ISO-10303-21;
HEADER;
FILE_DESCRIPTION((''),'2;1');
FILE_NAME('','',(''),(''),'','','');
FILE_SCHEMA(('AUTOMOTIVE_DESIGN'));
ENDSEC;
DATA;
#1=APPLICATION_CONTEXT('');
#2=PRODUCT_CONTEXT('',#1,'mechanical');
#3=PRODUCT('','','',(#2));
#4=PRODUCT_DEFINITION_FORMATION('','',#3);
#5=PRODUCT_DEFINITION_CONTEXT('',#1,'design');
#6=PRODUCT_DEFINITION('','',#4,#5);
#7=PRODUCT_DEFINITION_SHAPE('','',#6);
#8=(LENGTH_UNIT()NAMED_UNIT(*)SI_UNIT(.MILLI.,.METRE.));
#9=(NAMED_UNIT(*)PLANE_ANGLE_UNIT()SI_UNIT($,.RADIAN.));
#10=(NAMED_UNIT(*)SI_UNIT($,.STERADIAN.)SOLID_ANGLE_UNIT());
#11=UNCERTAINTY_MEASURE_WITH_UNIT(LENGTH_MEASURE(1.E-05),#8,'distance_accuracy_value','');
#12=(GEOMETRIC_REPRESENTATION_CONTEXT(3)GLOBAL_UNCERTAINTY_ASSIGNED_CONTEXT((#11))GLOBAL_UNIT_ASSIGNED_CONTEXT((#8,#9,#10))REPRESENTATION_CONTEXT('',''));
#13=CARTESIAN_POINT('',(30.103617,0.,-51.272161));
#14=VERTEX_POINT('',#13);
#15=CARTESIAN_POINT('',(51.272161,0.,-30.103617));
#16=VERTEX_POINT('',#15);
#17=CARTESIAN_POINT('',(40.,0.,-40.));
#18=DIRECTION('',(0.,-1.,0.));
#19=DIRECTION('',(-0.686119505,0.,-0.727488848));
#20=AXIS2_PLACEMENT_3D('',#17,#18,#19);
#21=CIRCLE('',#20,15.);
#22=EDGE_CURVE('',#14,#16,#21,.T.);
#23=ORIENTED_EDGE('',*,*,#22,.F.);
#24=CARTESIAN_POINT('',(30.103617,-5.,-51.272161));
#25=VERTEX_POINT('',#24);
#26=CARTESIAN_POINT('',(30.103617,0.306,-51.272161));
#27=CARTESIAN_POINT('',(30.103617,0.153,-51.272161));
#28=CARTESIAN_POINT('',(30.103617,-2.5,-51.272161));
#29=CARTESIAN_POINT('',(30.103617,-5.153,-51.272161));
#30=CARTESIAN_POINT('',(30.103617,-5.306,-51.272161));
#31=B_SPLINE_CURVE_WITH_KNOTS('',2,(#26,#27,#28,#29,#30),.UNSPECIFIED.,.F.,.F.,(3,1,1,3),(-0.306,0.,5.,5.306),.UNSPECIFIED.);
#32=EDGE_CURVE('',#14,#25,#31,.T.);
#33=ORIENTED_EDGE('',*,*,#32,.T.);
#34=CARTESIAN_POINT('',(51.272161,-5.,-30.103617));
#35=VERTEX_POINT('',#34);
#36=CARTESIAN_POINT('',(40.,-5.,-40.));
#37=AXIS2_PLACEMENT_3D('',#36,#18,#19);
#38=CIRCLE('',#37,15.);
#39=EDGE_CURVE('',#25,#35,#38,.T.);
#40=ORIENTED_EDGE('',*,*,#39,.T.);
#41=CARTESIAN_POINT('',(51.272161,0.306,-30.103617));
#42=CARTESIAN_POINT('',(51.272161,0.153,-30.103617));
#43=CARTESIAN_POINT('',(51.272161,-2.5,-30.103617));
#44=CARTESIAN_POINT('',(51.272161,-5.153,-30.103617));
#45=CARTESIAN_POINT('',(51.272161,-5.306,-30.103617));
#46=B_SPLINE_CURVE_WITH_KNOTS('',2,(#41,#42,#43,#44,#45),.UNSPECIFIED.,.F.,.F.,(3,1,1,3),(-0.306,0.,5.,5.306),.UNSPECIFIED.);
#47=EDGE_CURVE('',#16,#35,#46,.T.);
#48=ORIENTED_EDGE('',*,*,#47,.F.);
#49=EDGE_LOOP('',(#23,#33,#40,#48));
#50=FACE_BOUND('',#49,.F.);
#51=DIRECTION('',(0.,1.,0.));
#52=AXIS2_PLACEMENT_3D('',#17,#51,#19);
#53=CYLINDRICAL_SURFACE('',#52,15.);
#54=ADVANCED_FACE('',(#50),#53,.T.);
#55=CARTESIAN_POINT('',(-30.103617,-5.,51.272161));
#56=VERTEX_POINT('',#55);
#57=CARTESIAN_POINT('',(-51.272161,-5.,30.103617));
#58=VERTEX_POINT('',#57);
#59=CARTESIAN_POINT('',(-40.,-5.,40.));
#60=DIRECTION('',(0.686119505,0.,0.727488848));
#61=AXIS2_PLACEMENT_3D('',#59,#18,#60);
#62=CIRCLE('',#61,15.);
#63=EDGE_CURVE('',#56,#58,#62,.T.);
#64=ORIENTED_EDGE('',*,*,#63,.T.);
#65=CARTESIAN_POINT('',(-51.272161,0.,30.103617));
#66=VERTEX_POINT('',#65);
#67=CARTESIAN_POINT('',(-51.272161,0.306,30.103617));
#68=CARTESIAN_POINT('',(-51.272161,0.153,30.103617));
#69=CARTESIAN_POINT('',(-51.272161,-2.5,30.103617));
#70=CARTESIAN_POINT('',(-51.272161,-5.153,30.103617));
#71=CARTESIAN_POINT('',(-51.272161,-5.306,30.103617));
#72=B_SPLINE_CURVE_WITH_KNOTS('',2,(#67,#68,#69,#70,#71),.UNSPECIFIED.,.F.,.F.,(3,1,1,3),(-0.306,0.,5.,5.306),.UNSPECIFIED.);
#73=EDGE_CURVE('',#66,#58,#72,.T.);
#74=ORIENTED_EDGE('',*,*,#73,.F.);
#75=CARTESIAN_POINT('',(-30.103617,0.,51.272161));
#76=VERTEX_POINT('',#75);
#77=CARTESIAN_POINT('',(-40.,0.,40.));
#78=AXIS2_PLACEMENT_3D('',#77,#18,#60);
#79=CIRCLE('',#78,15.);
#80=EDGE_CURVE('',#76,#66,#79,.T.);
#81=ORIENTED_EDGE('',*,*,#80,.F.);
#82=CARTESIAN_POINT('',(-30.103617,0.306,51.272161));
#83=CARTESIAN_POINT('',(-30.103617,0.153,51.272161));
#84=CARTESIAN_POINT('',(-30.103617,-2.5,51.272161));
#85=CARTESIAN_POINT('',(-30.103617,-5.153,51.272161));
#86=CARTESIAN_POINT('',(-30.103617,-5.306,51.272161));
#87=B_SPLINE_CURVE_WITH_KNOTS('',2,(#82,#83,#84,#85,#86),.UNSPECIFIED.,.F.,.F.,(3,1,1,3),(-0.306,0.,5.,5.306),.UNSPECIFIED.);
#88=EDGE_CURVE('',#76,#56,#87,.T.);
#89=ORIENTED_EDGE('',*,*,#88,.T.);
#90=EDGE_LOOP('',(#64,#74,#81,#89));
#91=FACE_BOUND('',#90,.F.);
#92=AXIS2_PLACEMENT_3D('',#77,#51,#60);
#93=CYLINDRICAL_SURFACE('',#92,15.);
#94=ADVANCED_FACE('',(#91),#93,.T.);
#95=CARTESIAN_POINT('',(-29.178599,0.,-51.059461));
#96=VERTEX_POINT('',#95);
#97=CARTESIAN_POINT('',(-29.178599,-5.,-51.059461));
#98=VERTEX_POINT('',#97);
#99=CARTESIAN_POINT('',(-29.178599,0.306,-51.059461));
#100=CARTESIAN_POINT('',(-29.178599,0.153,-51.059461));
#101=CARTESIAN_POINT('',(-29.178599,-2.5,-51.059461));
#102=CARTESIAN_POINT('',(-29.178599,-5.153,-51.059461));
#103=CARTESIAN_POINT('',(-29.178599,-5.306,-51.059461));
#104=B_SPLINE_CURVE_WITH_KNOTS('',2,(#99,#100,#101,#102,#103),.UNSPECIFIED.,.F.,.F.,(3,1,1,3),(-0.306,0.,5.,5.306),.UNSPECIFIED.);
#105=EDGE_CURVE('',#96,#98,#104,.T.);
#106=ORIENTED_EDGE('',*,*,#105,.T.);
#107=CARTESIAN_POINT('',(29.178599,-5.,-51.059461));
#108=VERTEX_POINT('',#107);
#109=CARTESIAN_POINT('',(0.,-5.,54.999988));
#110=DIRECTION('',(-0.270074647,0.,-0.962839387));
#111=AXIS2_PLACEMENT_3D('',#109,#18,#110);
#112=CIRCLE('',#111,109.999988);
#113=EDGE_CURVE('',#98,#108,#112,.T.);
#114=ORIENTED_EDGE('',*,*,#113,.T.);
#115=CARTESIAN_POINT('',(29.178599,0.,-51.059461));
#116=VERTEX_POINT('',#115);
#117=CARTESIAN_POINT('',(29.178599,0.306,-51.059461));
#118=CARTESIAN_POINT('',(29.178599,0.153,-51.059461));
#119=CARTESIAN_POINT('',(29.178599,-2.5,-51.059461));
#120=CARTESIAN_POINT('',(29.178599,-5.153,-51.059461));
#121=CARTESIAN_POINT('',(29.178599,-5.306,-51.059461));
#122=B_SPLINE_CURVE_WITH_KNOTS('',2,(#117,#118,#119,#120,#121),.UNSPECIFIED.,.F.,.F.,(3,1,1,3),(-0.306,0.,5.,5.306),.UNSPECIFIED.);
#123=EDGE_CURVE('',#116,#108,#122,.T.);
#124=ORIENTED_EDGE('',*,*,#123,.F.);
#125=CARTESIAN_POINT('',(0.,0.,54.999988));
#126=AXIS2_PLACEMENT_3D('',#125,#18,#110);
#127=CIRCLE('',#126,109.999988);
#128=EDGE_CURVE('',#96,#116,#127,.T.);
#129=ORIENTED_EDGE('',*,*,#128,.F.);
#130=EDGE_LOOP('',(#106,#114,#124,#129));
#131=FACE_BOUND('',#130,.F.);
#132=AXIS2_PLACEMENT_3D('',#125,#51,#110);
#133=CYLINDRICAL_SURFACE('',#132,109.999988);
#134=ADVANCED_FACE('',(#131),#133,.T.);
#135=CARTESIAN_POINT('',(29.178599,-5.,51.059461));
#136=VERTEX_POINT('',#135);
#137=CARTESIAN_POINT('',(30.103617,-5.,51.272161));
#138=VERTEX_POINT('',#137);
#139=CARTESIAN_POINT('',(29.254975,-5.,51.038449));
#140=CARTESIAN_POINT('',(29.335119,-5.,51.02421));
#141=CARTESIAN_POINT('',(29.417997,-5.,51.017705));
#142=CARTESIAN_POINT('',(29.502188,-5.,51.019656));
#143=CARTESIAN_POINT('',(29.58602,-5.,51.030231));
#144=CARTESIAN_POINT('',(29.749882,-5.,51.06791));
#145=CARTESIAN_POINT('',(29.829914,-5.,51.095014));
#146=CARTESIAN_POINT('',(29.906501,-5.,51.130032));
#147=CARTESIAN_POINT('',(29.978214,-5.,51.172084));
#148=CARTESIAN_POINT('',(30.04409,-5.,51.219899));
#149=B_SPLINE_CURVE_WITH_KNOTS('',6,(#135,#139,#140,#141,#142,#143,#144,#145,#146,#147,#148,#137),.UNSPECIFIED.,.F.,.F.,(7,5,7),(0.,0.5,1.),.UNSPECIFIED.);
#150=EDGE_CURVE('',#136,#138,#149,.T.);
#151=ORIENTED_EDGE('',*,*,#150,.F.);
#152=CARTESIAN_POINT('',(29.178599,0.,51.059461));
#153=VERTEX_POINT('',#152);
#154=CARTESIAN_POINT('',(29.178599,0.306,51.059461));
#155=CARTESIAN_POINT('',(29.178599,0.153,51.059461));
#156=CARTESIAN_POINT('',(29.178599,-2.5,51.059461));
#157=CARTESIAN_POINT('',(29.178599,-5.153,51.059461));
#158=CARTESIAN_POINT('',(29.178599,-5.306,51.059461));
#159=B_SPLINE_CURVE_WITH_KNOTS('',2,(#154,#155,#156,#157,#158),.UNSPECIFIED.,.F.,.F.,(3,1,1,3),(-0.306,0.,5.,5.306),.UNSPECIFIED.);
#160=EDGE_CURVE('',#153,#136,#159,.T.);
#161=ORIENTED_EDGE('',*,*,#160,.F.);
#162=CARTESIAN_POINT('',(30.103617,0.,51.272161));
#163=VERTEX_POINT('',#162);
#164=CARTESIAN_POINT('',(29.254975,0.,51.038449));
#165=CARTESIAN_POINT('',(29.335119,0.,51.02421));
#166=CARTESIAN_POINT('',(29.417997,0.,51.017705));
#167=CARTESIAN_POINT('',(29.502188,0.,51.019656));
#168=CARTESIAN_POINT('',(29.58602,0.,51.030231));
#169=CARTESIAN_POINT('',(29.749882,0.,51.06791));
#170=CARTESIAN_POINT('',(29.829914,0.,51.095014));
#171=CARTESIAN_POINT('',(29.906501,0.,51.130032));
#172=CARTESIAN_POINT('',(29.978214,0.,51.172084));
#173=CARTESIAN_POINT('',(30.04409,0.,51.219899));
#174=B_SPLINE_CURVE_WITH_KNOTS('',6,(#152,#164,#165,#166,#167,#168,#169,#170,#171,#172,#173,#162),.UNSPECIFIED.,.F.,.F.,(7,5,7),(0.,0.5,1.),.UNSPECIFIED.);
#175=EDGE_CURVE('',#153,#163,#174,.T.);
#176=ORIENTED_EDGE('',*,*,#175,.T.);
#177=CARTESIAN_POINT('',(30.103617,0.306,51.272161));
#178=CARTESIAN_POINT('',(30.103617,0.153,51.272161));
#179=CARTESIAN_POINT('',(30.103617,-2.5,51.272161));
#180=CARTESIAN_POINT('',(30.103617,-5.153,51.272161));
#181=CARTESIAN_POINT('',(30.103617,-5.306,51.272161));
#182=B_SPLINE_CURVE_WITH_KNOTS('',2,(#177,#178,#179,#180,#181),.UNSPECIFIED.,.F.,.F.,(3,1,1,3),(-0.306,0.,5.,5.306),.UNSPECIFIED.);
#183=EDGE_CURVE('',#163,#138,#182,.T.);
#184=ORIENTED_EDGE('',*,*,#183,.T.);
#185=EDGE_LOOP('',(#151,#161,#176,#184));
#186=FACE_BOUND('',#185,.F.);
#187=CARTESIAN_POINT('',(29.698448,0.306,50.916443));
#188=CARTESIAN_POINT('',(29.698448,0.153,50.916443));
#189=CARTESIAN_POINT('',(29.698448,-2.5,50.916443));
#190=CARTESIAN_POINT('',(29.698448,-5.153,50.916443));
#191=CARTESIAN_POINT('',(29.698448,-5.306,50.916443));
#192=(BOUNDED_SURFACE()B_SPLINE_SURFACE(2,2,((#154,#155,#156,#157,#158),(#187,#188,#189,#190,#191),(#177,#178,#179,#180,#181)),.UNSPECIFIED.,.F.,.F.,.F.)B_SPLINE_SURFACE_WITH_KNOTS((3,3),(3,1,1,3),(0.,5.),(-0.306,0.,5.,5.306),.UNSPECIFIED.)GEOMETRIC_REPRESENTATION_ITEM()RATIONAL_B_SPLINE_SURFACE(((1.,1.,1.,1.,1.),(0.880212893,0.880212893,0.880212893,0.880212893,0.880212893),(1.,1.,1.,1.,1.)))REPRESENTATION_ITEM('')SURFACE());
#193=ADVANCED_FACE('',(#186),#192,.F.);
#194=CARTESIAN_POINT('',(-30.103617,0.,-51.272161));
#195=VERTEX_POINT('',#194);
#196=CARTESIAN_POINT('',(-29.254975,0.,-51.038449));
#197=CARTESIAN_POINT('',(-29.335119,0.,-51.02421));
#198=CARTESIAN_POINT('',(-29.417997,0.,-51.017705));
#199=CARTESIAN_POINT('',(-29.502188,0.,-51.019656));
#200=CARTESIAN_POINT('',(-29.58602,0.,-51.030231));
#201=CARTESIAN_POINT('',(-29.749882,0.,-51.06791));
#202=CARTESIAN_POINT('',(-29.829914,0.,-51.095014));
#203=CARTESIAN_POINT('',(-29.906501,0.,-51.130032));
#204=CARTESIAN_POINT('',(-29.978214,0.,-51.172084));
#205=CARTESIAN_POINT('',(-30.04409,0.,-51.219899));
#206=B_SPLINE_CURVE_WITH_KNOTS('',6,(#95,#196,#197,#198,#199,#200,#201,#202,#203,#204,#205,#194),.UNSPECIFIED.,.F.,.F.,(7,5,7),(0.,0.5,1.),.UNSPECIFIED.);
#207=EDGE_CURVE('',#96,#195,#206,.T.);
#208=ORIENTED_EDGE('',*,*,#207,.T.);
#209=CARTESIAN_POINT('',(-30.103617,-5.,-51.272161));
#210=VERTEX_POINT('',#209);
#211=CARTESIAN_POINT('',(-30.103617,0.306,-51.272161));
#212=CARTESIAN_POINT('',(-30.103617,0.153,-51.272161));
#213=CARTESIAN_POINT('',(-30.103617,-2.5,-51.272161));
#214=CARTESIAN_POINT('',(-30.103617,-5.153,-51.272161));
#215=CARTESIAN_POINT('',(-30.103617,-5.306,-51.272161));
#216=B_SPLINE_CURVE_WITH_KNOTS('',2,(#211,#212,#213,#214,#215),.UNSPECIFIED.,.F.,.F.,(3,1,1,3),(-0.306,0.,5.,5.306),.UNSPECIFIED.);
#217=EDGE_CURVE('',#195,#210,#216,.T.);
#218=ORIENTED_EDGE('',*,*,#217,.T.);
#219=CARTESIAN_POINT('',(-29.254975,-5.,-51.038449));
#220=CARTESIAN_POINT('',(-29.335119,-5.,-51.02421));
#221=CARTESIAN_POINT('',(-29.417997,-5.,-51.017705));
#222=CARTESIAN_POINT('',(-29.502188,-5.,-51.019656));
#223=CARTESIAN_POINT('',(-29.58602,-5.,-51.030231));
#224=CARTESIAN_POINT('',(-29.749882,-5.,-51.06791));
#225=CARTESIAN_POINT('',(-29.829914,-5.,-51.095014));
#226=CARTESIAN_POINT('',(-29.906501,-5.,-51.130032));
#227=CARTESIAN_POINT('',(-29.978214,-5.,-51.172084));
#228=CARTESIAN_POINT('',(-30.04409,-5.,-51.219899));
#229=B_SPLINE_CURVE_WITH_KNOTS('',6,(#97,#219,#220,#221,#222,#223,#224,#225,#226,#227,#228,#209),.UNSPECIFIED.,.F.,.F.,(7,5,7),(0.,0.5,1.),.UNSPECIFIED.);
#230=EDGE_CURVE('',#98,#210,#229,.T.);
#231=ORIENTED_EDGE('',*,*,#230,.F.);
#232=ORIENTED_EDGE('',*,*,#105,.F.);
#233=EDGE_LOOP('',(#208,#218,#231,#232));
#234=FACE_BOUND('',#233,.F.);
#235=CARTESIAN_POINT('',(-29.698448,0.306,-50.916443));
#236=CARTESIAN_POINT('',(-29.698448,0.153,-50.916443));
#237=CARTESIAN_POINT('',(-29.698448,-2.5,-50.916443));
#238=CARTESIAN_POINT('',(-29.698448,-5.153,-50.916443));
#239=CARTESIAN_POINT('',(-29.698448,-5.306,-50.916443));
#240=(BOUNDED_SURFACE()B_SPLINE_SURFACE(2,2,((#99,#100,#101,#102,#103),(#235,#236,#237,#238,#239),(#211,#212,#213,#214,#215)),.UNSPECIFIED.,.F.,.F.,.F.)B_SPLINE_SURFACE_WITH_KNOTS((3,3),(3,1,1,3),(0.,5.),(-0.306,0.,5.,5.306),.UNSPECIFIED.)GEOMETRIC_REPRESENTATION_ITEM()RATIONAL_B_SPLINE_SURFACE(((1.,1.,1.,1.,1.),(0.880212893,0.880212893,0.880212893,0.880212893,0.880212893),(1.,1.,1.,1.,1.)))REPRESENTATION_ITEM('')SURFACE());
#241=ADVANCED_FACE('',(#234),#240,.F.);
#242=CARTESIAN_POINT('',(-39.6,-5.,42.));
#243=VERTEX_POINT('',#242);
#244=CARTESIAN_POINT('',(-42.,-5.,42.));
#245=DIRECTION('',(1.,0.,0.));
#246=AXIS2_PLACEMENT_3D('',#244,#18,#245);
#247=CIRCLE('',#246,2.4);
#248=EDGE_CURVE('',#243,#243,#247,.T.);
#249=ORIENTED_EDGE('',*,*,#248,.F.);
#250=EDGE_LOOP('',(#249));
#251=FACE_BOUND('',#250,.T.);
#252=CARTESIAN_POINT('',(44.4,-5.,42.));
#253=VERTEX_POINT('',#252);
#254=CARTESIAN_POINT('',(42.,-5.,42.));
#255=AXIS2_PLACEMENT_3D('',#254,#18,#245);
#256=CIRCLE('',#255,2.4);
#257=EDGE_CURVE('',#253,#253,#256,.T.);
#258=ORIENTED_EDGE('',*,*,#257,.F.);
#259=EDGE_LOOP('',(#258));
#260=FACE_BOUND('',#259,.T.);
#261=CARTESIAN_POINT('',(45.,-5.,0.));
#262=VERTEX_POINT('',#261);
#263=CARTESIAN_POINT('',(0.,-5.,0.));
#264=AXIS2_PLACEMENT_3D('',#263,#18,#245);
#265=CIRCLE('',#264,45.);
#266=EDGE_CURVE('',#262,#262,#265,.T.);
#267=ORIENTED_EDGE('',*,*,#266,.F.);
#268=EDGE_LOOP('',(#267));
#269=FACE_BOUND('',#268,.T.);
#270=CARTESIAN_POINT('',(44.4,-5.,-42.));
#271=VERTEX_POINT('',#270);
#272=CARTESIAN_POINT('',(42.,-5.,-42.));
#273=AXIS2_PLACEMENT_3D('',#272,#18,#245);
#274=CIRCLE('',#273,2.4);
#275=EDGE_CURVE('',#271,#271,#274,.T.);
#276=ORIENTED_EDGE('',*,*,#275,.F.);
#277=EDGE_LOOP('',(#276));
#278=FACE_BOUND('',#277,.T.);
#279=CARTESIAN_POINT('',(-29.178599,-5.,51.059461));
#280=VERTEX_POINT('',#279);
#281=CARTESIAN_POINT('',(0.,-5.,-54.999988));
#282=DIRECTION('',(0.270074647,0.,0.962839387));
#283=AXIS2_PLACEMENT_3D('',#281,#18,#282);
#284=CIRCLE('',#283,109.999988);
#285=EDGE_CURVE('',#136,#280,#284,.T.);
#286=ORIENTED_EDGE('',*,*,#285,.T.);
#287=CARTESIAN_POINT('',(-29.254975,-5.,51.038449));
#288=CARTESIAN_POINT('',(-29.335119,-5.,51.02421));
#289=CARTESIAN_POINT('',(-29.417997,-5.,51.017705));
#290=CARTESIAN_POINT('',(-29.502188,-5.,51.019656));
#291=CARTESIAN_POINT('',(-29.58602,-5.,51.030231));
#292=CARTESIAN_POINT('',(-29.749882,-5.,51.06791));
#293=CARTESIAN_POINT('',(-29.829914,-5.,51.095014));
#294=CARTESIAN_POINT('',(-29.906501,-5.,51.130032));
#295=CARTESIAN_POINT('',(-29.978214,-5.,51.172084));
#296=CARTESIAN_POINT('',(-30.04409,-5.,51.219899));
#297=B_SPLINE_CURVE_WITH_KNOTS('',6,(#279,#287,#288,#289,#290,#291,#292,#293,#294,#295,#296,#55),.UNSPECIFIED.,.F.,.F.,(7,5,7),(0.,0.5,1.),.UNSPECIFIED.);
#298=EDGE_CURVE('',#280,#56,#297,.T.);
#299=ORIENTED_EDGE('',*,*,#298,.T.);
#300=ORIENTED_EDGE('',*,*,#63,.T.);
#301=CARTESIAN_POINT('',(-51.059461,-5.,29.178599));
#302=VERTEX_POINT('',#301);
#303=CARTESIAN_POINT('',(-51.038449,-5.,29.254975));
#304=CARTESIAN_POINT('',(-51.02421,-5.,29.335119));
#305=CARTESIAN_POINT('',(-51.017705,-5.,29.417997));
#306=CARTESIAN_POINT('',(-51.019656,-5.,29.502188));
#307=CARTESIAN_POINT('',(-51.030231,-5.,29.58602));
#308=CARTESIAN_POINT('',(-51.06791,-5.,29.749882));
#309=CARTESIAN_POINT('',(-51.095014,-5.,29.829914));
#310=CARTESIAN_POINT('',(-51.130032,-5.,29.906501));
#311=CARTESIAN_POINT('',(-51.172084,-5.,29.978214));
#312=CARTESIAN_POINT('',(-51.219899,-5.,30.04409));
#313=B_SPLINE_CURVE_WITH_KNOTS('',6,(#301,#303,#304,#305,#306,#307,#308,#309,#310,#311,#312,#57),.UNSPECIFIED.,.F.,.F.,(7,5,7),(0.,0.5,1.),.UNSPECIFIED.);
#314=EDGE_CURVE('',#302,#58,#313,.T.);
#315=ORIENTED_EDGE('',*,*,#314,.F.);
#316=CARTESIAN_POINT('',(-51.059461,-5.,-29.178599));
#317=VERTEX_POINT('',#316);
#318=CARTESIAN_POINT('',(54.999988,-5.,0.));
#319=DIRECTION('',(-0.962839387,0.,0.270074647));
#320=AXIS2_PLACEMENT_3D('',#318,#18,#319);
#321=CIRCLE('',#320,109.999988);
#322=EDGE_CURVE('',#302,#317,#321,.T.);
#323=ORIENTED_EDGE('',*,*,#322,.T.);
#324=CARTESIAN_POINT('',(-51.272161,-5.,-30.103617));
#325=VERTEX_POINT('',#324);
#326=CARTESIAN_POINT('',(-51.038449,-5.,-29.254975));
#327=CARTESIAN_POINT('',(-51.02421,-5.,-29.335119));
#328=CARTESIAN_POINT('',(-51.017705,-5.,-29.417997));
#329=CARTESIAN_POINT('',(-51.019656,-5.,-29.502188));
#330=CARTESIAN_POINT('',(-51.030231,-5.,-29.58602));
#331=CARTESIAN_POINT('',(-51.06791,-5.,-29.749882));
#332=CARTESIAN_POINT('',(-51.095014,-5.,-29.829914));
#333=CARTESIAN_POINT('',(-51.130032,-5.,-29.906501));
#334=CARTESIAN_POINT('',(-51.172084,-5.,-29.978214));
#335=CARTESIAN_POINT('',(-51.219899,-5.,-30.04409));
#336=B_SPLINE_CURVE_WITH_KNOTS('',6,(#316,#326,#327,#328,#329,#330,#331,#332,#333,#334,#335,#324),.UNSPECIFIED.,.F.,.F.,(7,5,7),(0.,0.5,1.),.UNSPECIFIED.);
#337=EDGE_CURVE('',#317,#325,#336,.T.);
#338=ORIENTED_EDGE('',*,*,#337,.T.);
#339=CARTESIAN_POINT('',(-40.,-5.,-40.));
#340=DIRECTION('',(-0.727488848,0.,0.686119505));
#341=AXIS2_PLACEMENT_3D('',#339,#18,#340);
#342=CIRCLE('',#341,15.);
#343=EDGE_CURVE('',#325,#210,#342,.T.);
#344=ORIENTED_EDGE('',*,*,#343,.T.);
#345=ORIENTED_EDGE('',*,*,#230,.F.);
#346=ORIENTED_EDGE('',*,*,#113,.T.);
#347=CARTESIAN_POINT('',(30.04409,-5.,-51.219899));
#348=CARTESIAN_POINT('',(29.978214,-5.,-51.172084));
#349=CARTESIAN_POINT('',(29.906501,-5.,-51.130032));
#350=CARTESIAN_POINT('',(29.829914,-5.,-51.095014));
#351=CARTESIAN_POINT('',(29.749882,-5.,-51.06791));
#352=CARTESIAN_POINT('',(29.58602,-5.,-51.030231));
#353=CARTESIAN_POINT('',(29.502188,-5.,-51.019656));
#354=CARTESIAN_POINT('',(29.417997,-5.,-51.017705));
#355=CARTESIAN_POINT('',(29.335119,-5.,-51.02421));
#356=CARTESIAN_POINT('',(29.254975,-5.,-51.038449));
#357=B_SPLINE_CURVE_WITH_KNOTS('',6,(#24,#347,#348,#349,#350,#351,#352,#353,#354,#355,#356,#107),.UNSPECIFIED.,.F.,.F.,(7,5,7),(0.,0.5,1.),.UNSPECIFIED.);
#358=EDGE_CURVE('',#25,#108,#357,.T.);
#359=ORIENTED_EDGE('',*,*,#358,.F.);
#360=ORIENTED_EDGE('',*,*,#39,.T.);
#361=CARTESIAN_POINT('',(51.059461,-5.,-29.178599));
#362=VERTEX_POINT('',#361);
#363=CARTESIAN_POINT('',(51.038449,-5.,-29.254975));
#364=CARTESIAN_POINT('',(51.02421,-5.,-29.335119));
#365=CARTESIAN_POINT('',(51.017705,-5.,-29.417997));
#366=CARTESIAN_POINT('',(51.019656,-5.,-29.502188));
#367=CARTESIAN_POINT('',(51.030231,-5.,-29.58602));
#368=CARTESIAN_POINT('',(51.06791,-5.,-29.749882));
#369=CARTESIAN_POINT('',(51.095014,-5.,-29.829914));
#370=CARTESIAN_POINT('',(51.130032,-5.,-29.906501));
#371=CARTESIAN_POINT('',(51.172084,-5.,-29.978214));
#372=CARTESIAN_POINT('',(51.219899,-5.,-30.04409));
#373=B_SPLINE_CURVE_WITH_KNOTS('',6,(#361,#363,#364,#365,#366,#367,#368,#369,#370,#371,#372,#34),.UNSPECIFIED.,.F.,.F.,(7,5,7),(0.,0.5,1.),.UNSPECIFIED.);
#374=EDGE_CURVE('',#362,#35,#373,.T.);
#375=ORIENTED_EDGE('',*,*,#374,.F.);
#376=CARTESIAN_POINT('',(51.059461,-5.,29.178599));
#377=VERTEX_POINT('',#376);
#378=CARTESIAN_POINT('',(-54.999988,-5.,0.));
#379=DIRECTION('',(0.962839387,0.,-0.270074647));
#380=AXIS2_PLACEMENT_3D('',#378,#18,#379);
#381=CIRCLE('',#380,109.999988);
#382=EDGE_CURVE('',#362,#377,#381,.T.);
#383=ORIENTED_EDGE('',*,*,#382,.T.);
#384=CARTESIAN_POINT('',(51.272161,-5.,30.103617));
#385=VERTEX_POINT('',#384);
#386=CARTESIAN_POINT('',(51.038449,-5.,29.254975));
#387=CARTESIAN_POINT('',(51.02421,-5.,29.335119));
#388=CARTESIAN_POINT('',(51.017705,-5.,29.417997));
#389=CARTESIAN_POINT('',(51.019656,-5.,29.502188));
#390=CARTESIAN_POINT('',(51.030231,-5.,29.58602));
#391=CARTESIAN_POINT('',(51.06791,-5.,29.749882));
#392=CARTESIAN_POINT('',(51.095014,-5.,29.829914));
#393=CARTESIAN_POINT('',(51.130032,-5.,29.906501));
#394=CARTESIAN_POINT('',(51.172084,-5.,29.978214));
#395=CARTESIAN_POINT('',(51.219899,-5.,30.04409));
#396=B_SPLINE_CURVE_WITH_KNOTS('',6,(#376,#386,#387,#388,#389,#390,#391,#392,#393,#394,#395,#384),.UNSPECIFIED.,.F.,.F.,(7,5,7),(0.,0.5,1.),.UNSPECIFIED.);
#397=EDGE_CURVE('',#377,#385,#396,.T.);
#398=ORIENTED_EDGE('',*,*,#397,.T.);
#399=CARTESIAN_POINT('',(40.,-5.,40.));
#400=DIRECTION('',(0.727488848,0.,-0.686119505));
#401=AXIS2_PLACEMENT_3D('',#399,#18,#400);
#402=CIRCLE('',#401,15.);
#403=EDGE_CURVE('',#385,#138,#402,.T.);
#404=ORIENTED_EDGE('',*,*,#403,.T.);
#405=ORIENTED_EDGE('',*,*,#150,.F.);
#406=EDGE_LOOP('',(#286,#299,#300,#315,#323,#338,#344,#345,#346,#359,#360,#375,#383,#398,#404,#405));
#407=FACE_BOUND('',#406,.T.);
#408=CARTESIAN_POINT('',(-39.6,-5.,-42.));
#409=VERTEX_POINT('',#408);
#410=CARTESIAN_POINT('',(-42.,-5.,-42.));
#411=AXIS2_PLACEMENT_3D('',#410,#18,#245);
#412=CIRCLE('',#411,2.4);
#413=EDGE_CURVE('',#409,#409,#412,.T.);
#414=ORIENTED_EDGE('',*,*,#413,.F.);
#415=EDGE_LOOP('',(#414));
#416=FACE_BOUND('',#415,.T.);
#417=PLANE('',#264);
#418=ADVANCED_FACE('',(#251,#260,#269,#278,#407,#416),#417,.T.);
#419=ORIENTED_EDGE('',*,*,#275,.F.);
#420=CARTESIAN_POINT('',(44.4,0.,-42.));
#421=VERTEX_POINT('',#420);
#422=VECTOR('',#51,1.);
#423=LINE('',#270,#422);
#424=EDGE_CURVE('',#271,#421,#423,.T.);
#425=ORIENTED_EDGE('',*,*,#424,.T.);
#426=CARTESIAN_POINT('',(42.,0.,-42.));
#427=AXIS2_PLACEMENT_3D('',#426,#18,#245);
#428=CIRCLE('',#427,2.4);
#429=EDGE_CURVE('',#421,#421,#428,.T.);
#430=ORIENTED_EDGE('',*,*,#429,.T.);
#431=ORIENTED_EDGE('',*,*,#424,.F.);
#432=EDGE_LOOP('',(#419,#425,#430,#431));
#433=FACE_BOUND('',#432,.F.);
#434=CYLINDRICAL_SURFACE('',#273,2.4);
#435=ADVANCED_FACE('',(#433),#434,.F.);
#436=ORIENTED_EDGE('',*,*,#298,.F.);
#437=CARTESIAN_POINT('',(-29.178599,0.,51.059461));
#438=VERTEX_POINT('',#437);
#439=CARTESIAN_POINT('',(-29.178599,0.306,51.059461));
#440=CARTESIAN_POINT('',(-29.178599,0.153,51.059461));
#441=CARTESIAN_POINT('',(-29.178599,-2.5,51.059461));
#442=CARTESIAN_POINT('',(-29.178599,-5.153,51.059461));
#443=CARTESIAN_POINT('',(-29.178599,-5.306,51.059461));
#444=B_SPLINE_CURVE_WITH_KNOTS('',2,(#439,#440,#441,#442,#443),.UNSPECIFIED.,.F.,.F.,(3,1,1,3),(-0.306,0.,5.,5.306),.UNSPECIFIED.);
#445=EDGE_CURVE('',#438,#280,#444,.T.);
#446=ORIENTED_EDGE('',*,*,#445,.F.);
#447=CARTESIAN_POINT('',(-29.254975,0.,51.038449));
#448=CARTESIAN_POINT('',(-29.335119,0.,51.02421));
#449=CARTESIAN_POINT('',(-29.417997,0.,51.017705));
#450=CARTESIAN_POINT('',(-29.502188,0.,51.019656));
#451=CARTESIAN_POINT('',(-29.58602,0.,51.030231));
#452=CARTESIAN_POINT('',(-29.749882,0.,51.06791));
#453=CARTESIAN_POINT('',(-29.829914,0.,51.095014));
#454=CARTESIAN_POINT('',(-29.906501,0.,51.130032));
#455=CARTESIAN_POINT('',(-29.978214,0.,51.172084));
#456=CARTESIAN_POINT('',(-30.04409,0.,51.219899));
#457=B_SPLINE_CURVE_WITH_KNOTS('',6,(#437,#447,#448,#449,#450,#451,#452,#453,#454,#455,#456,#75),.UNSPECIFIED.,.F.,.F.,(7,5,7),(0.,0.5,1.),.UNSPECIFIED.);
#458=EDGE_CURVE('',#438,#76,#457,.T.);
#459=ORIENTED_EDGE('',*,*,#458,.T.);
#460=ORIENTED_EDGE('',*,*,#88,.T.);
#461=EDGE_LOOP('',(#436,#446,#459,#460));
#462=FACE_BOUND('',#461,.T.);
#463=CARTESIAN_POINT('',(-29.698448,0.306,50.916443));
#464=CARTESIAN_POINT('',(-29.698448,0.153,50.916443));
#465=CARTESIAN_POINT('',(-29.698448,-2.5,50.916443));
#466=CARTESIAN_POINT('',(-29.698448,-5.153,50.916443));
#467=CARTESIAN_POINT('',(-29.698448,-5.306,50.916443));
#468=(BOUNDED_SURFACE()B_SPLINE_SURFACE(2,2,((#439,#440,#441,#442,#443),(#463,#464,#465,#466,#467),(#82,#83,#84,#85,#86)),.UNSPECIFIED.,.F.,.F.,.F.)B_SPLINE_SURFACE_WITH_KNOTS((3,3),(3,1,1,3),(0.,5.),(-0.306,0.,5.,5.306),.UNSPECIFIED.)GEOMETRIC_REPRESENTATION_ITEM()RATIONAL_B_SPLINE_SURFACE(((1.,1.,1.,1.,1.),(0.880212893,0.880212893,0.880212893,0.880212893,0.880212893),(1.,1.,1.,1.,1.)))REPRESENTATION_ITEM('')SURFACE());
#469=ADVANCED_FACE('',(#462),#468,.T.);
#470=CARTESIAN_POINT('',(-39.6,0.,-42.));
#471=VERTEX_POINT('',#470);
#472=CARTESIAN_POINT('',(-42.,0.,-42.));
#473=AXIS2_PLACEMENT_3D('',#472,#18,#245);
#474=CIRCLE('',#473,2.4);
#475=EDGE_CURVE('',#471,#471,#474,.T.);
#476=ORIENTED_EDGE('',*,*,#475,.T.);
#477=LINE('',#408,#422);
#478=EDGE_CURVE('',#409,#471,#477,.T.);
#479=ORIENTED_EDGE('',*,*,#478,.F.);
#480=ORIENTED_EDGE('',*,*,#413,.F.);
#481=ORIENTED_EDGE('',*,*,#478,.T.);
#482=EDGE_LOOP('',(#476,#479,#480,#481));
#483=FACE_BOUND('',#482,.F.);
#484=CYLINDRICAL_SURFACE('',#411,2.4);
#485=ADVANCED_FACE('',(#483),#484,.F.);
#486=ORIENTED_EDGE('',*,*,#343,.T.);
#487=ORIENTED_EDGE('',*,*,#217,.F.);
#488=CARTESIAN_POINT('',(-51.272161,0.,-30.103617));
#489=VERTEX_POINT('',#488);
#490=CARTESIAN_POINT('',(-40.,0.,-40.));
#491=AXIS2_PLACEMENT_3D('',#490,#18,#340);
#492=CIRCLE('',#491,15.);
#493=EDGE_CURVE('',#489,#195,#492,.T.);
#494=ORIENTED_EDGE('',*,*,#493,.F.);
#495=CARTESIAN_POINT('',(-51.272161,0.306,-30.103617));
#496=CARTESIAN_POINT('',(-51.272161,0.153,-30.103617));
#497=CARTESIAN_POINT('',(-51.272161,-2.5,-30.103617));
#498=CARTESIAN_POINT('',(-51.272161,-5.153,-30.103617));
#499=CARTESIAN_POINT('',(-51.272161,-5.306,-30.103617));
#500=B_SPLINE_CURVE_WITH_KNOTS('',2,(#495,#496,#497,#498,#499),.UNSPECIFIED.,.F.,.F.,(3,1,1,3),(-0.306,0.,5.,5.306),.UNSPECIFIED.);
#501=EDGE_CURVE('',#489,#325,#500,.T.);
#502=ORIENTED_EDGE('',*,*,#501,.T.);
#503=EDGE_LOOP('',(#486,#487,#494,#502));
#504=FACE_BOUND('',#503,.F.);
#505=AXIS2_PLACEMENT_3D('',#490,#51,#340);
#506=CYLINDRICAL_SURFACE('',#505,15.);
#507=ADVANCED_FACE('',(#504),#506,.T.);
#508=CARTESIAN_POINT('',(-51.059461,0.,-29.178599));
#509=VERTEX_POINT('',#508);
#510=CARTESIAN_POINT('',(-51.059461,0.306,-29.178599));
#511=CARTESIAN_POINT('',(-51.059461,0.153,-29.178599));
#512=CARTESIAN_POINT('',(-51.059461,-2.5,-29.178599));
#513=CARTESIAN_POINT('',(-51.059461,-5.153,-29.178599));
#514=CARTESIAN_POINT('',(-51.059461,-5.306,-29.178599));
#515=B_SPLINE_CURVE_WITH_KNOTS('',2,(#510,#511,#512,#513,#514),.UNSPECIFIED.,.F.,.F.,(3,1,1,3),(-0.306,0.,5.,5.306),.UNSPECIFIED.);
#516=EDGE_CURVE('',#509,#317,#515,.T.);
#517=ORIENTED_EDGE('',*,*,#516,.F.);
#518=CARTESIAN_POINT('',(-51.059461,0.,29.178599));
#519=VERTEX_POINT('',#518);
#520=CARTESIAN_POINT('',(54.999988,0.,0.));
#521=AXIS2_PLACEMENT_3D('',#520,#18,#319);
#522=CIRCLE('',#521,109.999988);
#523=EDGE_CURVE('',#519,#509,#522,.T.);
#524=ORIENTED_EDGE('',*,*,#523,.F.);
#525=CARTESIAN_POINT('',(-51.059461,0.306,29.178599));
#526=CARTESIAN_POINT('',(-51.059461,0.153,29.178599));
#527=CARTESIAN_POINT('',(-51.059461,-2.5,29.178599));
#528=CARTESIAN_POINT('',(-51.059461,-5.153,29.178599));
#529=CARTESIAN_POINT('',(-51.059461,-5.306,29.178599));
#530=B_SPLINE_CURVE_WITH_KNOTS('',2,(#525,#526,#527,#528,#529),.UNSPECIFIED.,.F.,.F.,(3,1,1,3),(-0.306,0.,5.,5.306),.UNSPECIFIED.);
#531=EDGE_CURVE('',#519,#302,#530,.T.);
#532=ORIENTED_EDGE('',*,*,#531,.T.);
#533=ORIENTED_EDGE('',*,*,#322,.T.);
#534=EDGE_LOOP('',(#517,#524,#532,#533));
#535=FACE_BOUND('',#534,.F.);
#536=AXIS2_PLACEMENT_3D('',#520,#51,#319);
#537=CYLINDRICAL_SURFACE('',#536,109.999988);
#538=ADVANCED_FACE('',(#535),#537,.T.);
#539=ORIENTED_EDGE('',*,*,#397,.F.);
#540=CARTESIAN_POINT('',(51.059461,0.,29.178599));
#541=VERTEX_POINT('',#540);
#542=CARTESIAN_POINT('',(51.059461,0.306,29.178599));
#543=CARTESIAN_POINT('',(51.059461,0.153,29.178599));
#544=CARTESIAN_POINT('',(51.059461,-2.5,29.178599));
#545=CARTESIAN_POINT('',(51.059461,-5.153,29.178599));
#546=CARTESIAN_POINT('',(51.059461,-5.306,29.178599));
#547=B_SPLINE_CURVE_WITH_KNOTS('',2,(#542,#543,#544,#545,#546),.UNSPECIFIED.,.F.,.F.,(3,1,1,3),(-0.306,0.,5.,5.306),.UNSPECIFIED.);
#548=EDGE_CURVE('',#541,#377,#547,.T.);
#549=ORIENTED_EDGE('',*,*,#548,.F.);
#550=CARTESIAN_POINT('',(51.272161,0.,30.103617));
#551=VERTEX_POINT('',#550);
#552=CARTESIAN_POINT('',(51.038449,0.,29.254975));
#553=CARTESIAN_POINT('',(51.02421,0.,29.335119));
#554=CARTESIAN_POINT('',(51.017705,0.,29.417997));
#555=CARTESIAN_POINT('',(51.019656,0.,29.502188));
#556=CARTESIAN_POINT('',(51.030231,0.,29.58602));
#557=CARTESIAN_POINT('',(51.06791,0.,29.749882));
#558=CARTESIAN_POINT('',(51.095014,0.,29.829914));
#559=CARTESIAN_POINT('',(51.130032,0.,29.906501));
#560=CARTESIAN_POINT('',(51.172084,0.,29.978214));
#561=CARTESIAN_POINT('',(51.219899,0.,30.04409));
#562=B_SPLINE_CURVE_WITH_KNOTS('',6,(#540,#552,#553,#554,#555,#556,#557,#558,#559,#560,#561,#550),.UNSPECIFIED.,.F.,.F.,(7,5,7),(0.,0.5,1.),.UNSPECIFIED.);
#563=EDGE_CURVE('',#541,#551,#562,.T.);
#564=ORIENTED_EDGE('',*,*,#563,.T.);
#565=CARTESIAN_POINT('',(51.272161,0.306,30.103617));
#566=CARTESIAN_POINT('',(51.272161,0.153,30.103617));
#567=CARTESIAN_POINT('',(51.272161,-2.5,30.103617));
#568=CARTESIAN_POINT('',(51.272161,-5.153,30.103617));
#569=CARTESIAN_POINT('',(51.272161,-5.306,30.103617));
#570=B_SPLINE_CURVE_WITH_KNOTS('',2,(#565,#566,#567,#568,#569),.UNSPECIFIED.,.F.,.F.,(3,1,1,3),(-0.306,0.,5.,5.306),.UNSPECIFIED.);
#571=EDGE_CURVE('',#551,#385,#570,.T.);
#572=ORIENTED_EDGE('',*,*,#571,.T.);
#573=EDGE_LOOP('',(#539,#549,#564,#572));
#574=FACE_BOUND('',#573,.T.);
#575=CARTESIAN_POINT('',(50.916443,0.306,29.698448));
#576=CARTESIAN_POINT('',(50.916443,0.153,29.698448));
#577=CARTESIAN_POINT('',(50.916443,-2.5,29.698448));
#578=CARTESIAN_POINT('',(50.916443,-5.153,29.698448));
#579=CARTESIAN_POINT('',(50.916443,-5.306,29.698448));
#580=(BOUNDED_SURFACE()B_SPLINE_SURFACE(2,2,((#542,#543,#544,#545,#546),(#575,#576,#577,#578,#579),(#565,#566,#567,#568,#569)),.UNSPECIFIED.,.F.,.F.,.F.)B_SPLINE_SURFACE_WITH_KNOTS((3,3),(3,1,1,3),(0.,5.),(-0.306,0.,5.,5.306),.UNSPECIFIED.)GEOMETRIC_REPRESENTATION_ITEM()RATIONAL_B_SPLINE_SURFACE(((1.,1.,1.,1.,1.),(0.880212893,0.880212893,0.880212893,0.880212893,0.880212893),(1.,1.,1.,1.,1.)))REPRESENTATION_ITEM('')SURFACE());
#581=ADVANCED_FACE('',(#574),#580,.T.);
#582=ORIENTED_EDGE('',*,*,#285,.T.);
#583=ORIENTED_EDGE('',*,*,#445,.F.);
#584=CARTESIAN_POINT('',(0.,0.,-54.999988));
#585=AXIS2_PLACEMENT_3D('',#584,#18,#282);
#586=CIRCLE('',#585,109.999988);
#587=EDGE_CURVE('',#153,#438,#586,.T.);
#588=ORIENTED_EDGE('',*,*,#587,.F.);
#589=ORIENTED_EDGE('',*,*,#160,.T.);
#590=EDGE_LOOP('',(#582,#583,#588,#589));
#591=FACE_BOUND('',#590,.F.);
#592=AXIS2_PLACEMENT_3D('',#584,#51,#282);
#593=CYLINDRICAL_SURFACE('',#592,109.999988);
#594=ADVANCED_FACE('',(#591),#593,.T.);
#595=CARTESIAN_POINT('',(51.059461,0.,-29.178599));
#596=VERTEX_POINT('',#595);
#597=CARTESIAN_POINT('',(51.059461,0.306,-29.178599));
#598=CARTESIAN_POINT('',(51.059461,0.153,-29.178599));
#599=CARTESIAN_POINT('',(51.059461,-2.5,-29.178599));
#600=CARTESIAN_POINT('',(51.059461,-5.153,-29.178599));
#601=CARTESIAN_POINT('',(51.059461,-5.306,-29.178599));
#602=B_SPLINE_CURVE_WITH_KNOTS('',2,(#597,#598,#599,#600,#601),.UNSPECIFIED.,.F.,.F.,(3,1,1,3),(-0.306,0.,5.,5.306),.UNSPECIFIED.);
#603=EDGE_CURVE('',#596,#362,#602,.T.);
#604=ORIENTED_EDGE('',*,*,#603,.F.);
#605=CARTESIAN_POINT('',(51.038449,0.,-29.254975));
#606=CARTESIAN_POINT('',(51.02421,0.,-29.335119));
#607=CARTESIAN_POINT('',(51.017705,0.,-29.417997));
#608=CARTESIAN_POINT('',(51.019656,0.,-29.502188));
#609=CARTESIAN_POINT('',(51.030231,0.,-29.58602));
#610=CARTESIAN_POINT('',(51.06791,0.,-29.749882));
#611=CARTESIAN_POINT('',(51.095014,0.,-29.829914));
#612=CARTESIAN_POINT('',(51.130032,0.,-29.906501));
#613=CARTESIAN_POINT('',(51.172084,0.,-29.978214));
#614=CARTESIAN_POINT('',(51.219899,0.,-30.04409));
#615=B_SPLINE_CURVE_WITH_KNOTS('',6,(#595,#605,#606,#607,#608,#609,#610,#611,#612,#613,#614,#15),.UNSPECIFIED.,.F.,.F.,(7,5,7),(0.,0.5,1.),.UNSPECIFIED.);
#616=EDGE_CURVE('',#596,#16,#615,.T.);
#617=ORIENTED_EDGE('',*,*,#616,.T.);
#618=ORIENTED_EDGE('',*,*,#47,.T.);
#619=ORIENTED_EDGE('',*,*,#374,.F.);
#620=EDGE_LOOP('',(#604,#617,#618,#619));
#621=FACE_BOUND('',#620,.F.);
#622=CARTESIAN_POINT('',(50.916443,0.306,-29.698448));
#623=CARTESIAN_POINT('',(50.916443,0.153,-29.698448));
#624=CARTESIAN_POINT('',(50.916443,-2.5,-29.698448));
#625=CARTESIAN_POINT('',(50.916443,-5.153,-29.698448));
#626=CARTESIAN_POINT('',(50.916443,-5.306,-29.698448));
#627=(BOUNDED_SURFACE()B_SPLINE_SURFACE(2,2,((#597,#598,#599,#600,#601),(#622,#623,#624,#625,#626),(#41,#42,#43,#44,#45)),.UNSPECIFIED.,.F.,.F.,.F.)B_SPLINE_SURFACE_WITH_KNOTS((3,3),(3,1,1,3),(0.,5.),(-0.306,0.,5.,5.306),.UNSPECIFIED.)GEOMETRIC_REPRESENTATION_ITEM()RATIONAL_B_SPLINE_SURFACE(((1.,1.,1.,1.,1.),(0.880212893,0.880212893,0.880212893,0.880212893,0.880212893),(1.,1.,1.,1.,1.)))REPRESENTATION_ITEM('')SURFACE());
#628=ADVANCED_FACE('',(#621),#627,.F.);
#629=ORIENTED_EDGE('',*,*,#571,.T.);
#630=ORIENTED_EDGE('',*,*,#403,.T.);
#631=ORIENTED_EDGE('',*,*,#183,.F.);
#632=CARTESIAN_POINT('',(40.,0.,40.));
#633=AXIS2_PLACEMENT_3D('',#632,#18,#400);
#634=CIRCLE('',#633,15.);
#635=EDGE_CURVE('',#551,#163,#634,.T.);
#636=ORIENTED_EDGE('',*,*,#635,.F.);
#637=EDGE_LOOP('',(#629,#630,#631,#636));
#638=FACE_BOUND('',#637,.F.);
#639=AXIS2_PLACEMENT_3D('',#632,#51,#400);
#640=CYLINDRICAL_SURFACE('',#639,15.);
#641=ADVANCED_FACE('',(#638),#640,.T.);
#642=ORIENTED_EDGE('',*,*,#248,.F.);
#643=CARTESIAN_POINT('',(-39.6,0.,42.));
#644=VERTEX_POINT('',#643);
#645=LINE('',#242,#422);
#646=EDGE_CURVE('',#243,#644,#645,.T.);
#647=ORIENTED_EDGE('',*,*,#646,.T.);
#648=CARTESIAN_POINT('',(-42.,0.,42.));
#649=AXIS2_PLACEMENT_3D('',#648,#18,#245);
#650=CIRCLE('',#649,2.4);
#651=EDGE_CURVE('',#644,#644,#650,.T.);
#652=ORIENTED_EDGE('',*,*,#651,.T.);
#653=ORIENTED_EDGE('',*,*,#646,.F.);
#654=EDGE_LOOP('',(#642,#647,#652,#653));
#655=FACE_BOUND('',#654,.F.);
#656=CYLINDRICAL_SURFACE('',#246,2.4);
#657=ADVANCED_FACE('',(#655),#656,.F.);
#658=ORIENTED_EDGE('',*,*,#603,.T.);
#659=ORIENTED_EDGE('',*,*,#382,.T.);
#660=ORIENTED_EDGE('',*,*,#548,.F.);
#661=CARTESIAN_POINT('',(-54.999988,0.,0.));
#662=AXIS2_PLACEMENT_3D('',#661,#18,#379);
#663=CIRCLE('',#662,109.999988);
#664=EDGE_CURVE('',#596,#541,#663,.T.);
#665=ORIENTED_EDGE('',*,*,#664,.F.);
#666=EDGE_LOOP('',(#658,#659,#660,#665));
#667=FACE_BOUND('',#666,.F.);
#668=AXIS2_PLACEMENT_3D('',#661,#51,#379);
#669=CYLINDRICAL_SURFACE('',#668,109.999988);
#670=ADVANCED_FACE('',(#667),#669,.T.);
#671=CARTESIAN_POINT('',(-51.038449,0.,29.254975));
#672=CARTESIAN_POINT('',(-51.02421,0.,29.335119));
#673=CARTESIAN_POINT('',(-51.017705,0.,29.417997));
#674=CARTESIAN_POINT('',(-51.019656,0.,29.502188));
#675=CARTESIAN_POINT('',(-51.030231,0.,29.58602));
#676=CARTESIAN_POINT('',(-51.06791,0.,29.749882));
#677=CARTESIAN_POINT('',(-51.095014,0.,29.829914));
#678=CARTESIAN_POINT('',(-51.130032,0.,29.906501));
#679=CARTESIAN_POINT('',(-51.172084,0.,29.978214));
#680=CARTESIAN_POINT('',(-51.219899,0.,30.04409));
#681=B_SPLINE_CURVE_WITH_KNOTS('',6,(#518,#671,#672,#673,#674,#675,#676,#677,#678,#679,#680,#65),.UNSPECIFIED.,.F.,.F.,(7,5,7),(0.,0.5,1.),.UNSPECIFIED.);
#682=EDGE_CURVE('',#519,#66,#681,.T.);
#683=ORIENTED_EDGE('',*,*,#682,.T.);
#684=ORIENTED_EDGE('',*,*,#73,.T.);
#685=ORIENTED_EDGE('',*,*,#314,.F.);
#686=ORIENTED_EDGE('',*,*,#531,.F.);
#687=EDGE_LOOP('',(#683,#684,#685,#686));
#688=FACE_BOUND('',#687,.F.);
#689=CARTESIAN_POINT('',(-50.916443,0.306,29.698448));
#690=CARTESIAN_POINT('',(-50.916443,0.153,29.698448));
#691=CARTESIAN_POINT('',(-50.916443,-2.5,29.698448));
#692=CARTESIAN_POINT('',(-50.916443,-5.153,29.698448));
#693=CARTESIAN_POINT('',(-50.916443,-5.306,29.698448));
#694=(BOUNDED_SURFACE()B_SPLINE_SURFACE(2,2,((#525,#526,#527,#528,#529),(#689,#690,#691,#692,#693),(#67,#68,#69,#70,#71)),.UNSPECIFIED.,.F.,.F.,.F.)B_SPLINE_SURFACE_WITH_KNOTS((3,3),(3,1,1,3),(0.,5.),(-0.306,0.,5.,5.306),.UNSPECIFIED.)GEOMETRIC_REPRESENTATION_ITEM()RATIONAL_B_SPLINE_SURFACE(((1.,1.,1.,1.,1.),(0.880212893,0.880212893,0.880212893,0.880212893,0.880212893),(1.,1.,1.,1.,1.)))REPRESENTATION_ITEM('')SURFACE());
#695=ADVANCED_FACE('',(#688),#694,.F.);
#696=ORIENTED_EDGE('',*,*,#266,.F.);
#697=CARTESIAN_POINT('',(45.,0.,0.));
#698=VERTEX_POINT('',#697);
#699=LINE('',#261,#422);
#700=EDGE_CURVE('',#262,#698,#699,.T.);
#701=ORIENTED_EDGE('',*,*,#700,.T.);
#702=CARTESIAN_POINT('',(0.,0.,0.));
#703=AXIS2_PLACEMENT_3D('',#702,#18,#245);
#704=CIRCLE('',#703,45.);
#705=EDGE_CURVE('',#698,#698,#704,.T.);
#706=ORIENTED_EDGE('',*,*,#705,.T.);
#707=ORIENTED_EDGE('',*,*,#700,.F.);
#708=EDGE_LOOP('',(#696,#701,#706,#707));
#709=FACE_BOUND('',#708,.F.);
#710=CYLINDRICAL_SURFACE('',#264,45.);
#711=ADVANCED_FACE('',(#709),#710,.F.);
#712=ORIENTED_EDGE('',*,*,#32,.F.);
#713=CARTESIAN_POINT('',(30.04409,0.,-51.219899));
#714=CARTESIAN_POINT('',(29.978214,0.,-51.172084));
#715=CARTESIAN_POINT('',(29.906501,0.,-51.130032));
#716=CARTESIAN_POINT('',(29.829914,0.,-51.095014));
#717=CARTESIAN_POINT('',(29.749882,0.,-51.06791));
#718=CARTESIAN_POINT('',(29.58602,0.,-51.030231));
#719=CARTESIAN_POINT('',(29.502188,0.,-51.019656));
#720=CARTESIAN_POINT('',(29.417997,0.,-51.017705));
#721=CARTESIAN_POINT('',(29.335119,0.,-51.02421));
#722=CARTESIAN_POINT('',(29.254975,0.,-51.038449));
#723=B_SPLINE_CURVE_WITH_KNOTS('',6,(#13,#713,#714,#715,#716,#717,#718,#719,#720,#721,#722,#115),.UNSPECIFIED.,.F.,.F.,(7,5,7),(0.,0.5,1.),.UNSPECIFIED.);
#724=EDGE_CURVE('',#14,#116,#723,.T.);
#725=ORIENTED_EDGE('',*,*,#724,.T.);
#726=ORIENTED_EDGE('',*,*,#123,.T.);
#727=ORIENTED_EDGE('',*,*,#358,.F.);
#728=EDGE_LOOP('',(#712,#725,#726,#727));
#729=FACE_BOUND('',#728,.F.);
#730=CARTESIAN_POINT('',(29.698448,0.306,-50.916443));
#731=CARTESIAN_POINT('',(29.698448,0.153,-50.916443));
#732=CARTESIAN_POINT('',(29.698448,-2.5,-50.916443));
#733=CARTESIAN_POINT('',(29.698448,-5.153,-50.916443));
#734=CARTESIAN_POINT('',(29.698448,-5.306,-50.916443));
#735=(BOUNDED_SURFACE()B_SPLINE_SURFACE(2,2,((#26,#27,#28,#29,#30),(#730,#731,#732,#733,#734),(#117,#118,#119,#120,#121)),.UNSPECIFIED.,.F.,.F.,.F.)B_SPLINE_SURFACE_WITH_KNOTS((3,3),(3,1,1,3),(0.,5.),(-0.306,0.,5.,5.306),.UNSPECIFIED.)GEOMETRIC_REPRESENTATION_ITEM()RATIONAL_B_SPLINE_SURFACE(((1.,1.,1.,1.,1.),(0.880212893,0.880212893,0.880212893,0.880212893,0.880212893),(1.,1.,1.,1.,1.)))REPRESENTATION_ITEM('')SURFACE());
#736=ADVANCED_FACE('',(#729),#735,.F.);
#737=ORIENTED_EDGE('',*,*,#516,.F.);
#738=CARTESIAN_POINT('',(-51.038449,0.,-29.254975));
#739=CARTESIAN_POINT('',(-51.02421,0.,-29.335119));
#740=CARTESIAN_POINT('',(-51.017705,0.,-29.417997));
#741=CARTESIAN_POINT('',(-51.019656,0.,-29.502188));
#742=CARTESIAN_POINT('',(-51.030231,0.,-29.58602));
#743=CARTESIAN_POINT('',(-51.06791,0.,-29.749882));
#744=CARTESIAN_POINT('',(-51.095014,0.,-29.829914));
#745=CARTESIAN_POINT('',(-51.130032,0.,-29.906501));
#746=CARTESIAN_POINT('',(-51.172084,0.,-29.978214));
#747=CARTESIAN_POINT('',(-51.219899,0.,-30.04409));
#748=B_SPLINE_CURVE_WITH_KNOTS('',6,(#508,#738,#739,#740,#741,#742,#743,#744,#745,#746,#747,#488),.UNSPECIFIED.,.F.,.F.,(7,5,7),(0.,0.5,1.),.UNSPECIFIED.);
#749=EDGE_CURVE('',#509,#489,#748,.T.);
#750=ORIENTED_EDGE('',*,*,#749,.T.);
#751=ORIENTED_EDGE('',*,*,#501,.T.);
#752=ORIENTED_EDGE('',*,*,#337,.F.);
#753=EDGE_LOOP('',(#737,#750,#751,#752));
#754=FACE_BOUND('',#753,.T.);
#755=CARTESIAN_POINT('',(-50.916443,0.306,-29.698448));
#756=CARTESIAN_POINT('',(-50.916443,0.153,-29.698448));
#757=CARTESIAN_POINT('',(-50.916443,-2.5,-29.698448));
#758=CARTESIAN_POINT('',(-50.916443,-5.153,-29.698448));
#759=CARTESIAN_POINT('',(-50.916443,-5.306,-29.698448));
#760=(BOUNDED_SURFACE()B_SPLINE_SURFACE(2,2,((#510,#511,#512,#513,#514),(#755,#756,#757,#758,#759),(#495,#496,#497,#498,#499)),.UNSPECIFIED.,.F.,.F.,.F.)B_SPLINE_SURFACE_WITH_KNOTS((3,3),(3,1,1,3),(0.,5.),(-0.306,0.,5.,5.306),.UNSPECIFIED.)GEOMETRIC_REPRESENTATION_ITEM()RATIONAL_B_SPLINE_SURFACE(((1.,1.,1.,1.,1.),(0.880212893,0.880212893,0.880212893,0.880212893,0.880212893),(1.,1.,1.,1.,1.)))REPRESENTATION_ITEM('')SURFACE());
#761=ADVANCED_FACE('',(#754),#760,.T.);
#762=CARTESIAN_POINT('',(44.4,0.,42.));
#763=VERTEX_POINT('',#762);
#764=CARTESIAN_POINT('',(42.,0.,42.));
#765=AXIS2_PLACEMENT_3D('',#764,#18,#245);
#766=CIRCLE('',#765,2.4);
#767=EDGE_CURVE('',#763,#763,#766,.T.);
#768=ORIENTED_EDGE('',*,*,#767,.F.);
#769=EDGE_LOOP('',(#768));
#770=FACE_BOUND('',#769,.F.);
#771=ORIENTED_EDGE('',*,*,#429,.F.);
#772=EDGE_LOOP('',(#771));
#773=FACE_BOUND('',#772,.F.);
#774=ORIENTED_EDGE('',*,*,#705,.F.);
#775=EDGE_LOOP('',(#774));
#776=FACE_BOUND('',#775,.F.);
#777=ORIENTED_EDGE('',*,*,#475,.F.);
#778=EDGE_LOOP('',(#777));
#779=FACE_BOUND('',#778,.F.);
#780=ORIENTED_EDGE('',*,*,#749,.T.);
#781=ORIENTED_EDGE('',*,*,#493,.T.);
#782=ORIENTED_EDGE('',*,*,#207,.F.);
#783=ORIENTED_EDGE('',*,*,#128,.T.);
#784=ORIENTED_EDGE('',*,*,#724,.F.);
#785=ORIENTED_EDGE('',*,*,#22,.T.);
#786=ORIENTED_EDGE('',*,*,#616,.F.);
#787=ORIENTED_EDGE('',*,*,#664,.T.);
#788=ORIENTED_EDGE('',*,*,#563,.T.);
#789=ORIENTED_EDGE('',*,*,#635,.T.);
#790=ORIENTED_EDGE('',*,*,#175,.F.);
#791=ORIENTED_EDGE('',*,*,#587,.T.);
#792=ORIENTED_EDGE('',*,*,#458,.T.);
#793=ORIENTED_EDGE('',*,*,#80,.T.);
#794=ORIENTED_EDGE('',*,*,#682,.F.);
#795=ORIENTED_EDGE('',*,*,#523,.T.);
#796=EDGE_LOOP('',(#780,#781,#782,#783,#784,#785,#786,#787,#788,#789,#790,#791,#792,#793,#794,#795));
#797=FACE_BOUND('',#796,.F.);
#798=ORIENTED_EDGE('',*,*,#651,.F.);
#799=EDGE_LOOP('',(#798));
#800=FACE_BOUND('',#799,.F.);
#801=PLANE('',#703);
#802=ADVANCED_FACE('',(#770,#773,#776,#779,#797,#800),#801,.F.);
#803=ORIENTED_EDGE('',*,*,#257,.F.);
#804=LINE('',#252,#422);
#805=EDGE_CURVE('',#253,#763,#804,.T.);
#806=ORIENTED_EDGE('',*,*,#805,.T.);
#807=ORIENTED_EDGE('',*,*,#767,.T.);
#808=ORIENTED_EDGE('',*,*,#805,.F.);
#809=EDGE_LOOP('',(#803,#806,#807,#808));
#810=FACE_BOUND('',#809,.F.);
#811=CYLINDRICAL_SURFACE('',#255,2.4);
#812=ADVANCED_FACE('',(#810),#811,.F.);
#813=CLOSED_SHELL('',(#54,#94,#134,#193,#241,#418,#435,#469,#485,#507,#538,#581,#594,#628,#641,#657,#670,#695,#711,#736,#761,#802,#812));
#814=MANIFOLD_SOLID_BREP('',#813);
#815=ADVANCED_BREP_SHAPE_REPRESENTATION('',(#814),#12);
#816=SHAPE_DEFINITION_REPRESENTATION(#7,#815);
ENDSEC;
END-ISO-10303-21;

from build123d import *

# Parameters (mm, degrees)
PAD_DEPTH       = 5
PAD001_DEPTH    = 5
SKETCH001_R     = 45
POCKET_DEPTH    = 5.001
FILLET_R        = 1
FILLET001_R     = 1
FILLET002_R     = 1
FILLET003_R     = 1
FILLET004_R     = 1
FILLET005_R     = 1
FILLET006_R     = 1
FILLET007_R     = 1
SKETCH002_R     = 2.4
POCKET001_DEPTH = 5


with BuildPart() as part:
    # Sketch → Pad (new body)
    with BuildSketch(Plane.XZ):
        with BuildLine():
            ThreePointArc((29.708208, 50.912333), (0, 55), (-29.708208, 50.912333))
            ThreePointArc((-29.708208, 50.912333), (-50.606602, 50.606602), (-50.912333, 29.708208))
            ThreePointArc((-50.912333, 29.708208), (-55, 0), (-50.912333, -29.708208))
            ThreePointArc((-50.912333, -29.708208), (-50.606602, -50.606602), (-29.708208, -50.912333))
            ThreePointArc((-29.708208, -50.912333), (0, -55), (29.708208, -50.912333))
            ThreePointArc((29.708208, -50.912333), (50.606602, -50.606602), (50.912333, -29.708208))
            ThreePointArc((50.912333, -29.708208), (55, 0), (50.912333, 29.708208))
            ThreePointArc((50.912333, 29.708208), (50.606602, 50.606602), (29.708208, 50.912333))
        make_face()
    extrude(amount=PAD_DEPTH)

    # Sketch → Pad001 (join)
    with BuildSketch(Plane.XZ):
        with BuildLine():
            ThreePointArc((29.708208, 50.912333), (0, 55), (-29.708208, 50.912333))
            ThreePointArc((-29.708208, 50.912333), (-50.606602, 50.606602), (-50.912333, 29.708208))
            ThreePointArc((-50.912333, 29.708208), (-55, 0), (-50.912333, -29.708208))
            ThreePointArc((-50.912333, -29.708208), (-50.606602, -50.606602), (-29.708208, -50.912333))
            ThreePointArc((-29.708208, -50.912333), (0, -55), (29.708208, -50.912333))
            ThreePointArc((29.708208, -50.912333), (50.606602, -50.606602), (50.912333, -29.708208))
            ThreePointArc((50.912333, -29.708208), (55, 0), (50.912333, 29.708208))
            ThreePointArc((50.912333, 29.708208), (50.606602, 50.606602), (29.708208, 50.912333))
        make_face()
    extrude(amount=PAD001_DEPTH)

    # Sketch001 (on Face5 of Pad001) → Pocket (cut, through all)
    with BuildSketch(Plane.XZ.offset(5)):
        Circle(SKETCH001_R)
    extrude(amount=-POCKET_DEPTH, mode=Mode.SUBTRACT)

    # Fillet
    fillet_edges = [part.edges().sort_by_distance(p)[0] for p in [
        (-29.708208, -2.5, 50.912333),
    ]]
    fillet(fillet_edges, radius=FILLET_R)

    # Fillet001
    fillet001_edges = [part.edges().sort_by_distance(p)[0] for p in [
        (29.708208, -2.5, 50.912333),
    ]]
    fillet(fillet001_edges, radius=FILLET001_R)

    # Fillet002
    fillet002_edges = [part.edges().sort_by_distance(p)[0] for p in [
        (50.912333, -2.5, -29.708208),
    ]]
    fillet(fillet002_edges, radius=FILLET002_R)

    # Fillet003
    fillet003_edges = [part.edges().sort_by_distance(p)[0] for p in [
        (50.912333, -2.5, 29.708208),
    ]]
    fillet(fillet003_edges, radius=FILLET003_R)

    # Fillet004
    fillet004_edges = [part.edges().sort_by_distance(p)[0] for p in [
        (29.708208, -2.5, -50.912333),
    ]]
    fillet(fillet004_edges, radius=FILLET004_R)

    # Fillet005
    fillet005_edges = [part.edges().sort_by_distance(p)[0] for p in [
        (-29.708208, -2.5, -50.912333),
    ]]
    fillet(fillet005_edges, radius=FILLET005_R)

    # Fillet006
    fillet006_edges = [part.edges().sort_by_distance(p)[0] for p in [
        (-50.912333, -2.5, 29.708208),
    ]]
    fillet(fillet006_edges, radius=FILLET006_R)

    # Fillet007
    fillet007_edges = [part.edges().sort_by_distance(p)[0] for p in [
        (-50.912333, -2.5, -29.708208),
    ]]
    fillet(fillet007_edges, radius=FILLET007_R)

    # Sketch002 (on Face19 of Fillet007) → Pocket001 (cut)
    with BuildSketch(Plane.XZ.offset(5)):
        with Locations((-42, 42)):
            Circle(SKETCH002_R)
        with Locations((42, 42)):
            Circle(SKETCH002_R)
        with Locations((42, -42)):
            Circle(SKETCH002_R)
        with Locations((-42, -42)):
            Circle(SKETCH002_R)
    extrude(amount=-POCKET001_DEPTH, mode=Mode.SUBTRACT)


solid = part.part
